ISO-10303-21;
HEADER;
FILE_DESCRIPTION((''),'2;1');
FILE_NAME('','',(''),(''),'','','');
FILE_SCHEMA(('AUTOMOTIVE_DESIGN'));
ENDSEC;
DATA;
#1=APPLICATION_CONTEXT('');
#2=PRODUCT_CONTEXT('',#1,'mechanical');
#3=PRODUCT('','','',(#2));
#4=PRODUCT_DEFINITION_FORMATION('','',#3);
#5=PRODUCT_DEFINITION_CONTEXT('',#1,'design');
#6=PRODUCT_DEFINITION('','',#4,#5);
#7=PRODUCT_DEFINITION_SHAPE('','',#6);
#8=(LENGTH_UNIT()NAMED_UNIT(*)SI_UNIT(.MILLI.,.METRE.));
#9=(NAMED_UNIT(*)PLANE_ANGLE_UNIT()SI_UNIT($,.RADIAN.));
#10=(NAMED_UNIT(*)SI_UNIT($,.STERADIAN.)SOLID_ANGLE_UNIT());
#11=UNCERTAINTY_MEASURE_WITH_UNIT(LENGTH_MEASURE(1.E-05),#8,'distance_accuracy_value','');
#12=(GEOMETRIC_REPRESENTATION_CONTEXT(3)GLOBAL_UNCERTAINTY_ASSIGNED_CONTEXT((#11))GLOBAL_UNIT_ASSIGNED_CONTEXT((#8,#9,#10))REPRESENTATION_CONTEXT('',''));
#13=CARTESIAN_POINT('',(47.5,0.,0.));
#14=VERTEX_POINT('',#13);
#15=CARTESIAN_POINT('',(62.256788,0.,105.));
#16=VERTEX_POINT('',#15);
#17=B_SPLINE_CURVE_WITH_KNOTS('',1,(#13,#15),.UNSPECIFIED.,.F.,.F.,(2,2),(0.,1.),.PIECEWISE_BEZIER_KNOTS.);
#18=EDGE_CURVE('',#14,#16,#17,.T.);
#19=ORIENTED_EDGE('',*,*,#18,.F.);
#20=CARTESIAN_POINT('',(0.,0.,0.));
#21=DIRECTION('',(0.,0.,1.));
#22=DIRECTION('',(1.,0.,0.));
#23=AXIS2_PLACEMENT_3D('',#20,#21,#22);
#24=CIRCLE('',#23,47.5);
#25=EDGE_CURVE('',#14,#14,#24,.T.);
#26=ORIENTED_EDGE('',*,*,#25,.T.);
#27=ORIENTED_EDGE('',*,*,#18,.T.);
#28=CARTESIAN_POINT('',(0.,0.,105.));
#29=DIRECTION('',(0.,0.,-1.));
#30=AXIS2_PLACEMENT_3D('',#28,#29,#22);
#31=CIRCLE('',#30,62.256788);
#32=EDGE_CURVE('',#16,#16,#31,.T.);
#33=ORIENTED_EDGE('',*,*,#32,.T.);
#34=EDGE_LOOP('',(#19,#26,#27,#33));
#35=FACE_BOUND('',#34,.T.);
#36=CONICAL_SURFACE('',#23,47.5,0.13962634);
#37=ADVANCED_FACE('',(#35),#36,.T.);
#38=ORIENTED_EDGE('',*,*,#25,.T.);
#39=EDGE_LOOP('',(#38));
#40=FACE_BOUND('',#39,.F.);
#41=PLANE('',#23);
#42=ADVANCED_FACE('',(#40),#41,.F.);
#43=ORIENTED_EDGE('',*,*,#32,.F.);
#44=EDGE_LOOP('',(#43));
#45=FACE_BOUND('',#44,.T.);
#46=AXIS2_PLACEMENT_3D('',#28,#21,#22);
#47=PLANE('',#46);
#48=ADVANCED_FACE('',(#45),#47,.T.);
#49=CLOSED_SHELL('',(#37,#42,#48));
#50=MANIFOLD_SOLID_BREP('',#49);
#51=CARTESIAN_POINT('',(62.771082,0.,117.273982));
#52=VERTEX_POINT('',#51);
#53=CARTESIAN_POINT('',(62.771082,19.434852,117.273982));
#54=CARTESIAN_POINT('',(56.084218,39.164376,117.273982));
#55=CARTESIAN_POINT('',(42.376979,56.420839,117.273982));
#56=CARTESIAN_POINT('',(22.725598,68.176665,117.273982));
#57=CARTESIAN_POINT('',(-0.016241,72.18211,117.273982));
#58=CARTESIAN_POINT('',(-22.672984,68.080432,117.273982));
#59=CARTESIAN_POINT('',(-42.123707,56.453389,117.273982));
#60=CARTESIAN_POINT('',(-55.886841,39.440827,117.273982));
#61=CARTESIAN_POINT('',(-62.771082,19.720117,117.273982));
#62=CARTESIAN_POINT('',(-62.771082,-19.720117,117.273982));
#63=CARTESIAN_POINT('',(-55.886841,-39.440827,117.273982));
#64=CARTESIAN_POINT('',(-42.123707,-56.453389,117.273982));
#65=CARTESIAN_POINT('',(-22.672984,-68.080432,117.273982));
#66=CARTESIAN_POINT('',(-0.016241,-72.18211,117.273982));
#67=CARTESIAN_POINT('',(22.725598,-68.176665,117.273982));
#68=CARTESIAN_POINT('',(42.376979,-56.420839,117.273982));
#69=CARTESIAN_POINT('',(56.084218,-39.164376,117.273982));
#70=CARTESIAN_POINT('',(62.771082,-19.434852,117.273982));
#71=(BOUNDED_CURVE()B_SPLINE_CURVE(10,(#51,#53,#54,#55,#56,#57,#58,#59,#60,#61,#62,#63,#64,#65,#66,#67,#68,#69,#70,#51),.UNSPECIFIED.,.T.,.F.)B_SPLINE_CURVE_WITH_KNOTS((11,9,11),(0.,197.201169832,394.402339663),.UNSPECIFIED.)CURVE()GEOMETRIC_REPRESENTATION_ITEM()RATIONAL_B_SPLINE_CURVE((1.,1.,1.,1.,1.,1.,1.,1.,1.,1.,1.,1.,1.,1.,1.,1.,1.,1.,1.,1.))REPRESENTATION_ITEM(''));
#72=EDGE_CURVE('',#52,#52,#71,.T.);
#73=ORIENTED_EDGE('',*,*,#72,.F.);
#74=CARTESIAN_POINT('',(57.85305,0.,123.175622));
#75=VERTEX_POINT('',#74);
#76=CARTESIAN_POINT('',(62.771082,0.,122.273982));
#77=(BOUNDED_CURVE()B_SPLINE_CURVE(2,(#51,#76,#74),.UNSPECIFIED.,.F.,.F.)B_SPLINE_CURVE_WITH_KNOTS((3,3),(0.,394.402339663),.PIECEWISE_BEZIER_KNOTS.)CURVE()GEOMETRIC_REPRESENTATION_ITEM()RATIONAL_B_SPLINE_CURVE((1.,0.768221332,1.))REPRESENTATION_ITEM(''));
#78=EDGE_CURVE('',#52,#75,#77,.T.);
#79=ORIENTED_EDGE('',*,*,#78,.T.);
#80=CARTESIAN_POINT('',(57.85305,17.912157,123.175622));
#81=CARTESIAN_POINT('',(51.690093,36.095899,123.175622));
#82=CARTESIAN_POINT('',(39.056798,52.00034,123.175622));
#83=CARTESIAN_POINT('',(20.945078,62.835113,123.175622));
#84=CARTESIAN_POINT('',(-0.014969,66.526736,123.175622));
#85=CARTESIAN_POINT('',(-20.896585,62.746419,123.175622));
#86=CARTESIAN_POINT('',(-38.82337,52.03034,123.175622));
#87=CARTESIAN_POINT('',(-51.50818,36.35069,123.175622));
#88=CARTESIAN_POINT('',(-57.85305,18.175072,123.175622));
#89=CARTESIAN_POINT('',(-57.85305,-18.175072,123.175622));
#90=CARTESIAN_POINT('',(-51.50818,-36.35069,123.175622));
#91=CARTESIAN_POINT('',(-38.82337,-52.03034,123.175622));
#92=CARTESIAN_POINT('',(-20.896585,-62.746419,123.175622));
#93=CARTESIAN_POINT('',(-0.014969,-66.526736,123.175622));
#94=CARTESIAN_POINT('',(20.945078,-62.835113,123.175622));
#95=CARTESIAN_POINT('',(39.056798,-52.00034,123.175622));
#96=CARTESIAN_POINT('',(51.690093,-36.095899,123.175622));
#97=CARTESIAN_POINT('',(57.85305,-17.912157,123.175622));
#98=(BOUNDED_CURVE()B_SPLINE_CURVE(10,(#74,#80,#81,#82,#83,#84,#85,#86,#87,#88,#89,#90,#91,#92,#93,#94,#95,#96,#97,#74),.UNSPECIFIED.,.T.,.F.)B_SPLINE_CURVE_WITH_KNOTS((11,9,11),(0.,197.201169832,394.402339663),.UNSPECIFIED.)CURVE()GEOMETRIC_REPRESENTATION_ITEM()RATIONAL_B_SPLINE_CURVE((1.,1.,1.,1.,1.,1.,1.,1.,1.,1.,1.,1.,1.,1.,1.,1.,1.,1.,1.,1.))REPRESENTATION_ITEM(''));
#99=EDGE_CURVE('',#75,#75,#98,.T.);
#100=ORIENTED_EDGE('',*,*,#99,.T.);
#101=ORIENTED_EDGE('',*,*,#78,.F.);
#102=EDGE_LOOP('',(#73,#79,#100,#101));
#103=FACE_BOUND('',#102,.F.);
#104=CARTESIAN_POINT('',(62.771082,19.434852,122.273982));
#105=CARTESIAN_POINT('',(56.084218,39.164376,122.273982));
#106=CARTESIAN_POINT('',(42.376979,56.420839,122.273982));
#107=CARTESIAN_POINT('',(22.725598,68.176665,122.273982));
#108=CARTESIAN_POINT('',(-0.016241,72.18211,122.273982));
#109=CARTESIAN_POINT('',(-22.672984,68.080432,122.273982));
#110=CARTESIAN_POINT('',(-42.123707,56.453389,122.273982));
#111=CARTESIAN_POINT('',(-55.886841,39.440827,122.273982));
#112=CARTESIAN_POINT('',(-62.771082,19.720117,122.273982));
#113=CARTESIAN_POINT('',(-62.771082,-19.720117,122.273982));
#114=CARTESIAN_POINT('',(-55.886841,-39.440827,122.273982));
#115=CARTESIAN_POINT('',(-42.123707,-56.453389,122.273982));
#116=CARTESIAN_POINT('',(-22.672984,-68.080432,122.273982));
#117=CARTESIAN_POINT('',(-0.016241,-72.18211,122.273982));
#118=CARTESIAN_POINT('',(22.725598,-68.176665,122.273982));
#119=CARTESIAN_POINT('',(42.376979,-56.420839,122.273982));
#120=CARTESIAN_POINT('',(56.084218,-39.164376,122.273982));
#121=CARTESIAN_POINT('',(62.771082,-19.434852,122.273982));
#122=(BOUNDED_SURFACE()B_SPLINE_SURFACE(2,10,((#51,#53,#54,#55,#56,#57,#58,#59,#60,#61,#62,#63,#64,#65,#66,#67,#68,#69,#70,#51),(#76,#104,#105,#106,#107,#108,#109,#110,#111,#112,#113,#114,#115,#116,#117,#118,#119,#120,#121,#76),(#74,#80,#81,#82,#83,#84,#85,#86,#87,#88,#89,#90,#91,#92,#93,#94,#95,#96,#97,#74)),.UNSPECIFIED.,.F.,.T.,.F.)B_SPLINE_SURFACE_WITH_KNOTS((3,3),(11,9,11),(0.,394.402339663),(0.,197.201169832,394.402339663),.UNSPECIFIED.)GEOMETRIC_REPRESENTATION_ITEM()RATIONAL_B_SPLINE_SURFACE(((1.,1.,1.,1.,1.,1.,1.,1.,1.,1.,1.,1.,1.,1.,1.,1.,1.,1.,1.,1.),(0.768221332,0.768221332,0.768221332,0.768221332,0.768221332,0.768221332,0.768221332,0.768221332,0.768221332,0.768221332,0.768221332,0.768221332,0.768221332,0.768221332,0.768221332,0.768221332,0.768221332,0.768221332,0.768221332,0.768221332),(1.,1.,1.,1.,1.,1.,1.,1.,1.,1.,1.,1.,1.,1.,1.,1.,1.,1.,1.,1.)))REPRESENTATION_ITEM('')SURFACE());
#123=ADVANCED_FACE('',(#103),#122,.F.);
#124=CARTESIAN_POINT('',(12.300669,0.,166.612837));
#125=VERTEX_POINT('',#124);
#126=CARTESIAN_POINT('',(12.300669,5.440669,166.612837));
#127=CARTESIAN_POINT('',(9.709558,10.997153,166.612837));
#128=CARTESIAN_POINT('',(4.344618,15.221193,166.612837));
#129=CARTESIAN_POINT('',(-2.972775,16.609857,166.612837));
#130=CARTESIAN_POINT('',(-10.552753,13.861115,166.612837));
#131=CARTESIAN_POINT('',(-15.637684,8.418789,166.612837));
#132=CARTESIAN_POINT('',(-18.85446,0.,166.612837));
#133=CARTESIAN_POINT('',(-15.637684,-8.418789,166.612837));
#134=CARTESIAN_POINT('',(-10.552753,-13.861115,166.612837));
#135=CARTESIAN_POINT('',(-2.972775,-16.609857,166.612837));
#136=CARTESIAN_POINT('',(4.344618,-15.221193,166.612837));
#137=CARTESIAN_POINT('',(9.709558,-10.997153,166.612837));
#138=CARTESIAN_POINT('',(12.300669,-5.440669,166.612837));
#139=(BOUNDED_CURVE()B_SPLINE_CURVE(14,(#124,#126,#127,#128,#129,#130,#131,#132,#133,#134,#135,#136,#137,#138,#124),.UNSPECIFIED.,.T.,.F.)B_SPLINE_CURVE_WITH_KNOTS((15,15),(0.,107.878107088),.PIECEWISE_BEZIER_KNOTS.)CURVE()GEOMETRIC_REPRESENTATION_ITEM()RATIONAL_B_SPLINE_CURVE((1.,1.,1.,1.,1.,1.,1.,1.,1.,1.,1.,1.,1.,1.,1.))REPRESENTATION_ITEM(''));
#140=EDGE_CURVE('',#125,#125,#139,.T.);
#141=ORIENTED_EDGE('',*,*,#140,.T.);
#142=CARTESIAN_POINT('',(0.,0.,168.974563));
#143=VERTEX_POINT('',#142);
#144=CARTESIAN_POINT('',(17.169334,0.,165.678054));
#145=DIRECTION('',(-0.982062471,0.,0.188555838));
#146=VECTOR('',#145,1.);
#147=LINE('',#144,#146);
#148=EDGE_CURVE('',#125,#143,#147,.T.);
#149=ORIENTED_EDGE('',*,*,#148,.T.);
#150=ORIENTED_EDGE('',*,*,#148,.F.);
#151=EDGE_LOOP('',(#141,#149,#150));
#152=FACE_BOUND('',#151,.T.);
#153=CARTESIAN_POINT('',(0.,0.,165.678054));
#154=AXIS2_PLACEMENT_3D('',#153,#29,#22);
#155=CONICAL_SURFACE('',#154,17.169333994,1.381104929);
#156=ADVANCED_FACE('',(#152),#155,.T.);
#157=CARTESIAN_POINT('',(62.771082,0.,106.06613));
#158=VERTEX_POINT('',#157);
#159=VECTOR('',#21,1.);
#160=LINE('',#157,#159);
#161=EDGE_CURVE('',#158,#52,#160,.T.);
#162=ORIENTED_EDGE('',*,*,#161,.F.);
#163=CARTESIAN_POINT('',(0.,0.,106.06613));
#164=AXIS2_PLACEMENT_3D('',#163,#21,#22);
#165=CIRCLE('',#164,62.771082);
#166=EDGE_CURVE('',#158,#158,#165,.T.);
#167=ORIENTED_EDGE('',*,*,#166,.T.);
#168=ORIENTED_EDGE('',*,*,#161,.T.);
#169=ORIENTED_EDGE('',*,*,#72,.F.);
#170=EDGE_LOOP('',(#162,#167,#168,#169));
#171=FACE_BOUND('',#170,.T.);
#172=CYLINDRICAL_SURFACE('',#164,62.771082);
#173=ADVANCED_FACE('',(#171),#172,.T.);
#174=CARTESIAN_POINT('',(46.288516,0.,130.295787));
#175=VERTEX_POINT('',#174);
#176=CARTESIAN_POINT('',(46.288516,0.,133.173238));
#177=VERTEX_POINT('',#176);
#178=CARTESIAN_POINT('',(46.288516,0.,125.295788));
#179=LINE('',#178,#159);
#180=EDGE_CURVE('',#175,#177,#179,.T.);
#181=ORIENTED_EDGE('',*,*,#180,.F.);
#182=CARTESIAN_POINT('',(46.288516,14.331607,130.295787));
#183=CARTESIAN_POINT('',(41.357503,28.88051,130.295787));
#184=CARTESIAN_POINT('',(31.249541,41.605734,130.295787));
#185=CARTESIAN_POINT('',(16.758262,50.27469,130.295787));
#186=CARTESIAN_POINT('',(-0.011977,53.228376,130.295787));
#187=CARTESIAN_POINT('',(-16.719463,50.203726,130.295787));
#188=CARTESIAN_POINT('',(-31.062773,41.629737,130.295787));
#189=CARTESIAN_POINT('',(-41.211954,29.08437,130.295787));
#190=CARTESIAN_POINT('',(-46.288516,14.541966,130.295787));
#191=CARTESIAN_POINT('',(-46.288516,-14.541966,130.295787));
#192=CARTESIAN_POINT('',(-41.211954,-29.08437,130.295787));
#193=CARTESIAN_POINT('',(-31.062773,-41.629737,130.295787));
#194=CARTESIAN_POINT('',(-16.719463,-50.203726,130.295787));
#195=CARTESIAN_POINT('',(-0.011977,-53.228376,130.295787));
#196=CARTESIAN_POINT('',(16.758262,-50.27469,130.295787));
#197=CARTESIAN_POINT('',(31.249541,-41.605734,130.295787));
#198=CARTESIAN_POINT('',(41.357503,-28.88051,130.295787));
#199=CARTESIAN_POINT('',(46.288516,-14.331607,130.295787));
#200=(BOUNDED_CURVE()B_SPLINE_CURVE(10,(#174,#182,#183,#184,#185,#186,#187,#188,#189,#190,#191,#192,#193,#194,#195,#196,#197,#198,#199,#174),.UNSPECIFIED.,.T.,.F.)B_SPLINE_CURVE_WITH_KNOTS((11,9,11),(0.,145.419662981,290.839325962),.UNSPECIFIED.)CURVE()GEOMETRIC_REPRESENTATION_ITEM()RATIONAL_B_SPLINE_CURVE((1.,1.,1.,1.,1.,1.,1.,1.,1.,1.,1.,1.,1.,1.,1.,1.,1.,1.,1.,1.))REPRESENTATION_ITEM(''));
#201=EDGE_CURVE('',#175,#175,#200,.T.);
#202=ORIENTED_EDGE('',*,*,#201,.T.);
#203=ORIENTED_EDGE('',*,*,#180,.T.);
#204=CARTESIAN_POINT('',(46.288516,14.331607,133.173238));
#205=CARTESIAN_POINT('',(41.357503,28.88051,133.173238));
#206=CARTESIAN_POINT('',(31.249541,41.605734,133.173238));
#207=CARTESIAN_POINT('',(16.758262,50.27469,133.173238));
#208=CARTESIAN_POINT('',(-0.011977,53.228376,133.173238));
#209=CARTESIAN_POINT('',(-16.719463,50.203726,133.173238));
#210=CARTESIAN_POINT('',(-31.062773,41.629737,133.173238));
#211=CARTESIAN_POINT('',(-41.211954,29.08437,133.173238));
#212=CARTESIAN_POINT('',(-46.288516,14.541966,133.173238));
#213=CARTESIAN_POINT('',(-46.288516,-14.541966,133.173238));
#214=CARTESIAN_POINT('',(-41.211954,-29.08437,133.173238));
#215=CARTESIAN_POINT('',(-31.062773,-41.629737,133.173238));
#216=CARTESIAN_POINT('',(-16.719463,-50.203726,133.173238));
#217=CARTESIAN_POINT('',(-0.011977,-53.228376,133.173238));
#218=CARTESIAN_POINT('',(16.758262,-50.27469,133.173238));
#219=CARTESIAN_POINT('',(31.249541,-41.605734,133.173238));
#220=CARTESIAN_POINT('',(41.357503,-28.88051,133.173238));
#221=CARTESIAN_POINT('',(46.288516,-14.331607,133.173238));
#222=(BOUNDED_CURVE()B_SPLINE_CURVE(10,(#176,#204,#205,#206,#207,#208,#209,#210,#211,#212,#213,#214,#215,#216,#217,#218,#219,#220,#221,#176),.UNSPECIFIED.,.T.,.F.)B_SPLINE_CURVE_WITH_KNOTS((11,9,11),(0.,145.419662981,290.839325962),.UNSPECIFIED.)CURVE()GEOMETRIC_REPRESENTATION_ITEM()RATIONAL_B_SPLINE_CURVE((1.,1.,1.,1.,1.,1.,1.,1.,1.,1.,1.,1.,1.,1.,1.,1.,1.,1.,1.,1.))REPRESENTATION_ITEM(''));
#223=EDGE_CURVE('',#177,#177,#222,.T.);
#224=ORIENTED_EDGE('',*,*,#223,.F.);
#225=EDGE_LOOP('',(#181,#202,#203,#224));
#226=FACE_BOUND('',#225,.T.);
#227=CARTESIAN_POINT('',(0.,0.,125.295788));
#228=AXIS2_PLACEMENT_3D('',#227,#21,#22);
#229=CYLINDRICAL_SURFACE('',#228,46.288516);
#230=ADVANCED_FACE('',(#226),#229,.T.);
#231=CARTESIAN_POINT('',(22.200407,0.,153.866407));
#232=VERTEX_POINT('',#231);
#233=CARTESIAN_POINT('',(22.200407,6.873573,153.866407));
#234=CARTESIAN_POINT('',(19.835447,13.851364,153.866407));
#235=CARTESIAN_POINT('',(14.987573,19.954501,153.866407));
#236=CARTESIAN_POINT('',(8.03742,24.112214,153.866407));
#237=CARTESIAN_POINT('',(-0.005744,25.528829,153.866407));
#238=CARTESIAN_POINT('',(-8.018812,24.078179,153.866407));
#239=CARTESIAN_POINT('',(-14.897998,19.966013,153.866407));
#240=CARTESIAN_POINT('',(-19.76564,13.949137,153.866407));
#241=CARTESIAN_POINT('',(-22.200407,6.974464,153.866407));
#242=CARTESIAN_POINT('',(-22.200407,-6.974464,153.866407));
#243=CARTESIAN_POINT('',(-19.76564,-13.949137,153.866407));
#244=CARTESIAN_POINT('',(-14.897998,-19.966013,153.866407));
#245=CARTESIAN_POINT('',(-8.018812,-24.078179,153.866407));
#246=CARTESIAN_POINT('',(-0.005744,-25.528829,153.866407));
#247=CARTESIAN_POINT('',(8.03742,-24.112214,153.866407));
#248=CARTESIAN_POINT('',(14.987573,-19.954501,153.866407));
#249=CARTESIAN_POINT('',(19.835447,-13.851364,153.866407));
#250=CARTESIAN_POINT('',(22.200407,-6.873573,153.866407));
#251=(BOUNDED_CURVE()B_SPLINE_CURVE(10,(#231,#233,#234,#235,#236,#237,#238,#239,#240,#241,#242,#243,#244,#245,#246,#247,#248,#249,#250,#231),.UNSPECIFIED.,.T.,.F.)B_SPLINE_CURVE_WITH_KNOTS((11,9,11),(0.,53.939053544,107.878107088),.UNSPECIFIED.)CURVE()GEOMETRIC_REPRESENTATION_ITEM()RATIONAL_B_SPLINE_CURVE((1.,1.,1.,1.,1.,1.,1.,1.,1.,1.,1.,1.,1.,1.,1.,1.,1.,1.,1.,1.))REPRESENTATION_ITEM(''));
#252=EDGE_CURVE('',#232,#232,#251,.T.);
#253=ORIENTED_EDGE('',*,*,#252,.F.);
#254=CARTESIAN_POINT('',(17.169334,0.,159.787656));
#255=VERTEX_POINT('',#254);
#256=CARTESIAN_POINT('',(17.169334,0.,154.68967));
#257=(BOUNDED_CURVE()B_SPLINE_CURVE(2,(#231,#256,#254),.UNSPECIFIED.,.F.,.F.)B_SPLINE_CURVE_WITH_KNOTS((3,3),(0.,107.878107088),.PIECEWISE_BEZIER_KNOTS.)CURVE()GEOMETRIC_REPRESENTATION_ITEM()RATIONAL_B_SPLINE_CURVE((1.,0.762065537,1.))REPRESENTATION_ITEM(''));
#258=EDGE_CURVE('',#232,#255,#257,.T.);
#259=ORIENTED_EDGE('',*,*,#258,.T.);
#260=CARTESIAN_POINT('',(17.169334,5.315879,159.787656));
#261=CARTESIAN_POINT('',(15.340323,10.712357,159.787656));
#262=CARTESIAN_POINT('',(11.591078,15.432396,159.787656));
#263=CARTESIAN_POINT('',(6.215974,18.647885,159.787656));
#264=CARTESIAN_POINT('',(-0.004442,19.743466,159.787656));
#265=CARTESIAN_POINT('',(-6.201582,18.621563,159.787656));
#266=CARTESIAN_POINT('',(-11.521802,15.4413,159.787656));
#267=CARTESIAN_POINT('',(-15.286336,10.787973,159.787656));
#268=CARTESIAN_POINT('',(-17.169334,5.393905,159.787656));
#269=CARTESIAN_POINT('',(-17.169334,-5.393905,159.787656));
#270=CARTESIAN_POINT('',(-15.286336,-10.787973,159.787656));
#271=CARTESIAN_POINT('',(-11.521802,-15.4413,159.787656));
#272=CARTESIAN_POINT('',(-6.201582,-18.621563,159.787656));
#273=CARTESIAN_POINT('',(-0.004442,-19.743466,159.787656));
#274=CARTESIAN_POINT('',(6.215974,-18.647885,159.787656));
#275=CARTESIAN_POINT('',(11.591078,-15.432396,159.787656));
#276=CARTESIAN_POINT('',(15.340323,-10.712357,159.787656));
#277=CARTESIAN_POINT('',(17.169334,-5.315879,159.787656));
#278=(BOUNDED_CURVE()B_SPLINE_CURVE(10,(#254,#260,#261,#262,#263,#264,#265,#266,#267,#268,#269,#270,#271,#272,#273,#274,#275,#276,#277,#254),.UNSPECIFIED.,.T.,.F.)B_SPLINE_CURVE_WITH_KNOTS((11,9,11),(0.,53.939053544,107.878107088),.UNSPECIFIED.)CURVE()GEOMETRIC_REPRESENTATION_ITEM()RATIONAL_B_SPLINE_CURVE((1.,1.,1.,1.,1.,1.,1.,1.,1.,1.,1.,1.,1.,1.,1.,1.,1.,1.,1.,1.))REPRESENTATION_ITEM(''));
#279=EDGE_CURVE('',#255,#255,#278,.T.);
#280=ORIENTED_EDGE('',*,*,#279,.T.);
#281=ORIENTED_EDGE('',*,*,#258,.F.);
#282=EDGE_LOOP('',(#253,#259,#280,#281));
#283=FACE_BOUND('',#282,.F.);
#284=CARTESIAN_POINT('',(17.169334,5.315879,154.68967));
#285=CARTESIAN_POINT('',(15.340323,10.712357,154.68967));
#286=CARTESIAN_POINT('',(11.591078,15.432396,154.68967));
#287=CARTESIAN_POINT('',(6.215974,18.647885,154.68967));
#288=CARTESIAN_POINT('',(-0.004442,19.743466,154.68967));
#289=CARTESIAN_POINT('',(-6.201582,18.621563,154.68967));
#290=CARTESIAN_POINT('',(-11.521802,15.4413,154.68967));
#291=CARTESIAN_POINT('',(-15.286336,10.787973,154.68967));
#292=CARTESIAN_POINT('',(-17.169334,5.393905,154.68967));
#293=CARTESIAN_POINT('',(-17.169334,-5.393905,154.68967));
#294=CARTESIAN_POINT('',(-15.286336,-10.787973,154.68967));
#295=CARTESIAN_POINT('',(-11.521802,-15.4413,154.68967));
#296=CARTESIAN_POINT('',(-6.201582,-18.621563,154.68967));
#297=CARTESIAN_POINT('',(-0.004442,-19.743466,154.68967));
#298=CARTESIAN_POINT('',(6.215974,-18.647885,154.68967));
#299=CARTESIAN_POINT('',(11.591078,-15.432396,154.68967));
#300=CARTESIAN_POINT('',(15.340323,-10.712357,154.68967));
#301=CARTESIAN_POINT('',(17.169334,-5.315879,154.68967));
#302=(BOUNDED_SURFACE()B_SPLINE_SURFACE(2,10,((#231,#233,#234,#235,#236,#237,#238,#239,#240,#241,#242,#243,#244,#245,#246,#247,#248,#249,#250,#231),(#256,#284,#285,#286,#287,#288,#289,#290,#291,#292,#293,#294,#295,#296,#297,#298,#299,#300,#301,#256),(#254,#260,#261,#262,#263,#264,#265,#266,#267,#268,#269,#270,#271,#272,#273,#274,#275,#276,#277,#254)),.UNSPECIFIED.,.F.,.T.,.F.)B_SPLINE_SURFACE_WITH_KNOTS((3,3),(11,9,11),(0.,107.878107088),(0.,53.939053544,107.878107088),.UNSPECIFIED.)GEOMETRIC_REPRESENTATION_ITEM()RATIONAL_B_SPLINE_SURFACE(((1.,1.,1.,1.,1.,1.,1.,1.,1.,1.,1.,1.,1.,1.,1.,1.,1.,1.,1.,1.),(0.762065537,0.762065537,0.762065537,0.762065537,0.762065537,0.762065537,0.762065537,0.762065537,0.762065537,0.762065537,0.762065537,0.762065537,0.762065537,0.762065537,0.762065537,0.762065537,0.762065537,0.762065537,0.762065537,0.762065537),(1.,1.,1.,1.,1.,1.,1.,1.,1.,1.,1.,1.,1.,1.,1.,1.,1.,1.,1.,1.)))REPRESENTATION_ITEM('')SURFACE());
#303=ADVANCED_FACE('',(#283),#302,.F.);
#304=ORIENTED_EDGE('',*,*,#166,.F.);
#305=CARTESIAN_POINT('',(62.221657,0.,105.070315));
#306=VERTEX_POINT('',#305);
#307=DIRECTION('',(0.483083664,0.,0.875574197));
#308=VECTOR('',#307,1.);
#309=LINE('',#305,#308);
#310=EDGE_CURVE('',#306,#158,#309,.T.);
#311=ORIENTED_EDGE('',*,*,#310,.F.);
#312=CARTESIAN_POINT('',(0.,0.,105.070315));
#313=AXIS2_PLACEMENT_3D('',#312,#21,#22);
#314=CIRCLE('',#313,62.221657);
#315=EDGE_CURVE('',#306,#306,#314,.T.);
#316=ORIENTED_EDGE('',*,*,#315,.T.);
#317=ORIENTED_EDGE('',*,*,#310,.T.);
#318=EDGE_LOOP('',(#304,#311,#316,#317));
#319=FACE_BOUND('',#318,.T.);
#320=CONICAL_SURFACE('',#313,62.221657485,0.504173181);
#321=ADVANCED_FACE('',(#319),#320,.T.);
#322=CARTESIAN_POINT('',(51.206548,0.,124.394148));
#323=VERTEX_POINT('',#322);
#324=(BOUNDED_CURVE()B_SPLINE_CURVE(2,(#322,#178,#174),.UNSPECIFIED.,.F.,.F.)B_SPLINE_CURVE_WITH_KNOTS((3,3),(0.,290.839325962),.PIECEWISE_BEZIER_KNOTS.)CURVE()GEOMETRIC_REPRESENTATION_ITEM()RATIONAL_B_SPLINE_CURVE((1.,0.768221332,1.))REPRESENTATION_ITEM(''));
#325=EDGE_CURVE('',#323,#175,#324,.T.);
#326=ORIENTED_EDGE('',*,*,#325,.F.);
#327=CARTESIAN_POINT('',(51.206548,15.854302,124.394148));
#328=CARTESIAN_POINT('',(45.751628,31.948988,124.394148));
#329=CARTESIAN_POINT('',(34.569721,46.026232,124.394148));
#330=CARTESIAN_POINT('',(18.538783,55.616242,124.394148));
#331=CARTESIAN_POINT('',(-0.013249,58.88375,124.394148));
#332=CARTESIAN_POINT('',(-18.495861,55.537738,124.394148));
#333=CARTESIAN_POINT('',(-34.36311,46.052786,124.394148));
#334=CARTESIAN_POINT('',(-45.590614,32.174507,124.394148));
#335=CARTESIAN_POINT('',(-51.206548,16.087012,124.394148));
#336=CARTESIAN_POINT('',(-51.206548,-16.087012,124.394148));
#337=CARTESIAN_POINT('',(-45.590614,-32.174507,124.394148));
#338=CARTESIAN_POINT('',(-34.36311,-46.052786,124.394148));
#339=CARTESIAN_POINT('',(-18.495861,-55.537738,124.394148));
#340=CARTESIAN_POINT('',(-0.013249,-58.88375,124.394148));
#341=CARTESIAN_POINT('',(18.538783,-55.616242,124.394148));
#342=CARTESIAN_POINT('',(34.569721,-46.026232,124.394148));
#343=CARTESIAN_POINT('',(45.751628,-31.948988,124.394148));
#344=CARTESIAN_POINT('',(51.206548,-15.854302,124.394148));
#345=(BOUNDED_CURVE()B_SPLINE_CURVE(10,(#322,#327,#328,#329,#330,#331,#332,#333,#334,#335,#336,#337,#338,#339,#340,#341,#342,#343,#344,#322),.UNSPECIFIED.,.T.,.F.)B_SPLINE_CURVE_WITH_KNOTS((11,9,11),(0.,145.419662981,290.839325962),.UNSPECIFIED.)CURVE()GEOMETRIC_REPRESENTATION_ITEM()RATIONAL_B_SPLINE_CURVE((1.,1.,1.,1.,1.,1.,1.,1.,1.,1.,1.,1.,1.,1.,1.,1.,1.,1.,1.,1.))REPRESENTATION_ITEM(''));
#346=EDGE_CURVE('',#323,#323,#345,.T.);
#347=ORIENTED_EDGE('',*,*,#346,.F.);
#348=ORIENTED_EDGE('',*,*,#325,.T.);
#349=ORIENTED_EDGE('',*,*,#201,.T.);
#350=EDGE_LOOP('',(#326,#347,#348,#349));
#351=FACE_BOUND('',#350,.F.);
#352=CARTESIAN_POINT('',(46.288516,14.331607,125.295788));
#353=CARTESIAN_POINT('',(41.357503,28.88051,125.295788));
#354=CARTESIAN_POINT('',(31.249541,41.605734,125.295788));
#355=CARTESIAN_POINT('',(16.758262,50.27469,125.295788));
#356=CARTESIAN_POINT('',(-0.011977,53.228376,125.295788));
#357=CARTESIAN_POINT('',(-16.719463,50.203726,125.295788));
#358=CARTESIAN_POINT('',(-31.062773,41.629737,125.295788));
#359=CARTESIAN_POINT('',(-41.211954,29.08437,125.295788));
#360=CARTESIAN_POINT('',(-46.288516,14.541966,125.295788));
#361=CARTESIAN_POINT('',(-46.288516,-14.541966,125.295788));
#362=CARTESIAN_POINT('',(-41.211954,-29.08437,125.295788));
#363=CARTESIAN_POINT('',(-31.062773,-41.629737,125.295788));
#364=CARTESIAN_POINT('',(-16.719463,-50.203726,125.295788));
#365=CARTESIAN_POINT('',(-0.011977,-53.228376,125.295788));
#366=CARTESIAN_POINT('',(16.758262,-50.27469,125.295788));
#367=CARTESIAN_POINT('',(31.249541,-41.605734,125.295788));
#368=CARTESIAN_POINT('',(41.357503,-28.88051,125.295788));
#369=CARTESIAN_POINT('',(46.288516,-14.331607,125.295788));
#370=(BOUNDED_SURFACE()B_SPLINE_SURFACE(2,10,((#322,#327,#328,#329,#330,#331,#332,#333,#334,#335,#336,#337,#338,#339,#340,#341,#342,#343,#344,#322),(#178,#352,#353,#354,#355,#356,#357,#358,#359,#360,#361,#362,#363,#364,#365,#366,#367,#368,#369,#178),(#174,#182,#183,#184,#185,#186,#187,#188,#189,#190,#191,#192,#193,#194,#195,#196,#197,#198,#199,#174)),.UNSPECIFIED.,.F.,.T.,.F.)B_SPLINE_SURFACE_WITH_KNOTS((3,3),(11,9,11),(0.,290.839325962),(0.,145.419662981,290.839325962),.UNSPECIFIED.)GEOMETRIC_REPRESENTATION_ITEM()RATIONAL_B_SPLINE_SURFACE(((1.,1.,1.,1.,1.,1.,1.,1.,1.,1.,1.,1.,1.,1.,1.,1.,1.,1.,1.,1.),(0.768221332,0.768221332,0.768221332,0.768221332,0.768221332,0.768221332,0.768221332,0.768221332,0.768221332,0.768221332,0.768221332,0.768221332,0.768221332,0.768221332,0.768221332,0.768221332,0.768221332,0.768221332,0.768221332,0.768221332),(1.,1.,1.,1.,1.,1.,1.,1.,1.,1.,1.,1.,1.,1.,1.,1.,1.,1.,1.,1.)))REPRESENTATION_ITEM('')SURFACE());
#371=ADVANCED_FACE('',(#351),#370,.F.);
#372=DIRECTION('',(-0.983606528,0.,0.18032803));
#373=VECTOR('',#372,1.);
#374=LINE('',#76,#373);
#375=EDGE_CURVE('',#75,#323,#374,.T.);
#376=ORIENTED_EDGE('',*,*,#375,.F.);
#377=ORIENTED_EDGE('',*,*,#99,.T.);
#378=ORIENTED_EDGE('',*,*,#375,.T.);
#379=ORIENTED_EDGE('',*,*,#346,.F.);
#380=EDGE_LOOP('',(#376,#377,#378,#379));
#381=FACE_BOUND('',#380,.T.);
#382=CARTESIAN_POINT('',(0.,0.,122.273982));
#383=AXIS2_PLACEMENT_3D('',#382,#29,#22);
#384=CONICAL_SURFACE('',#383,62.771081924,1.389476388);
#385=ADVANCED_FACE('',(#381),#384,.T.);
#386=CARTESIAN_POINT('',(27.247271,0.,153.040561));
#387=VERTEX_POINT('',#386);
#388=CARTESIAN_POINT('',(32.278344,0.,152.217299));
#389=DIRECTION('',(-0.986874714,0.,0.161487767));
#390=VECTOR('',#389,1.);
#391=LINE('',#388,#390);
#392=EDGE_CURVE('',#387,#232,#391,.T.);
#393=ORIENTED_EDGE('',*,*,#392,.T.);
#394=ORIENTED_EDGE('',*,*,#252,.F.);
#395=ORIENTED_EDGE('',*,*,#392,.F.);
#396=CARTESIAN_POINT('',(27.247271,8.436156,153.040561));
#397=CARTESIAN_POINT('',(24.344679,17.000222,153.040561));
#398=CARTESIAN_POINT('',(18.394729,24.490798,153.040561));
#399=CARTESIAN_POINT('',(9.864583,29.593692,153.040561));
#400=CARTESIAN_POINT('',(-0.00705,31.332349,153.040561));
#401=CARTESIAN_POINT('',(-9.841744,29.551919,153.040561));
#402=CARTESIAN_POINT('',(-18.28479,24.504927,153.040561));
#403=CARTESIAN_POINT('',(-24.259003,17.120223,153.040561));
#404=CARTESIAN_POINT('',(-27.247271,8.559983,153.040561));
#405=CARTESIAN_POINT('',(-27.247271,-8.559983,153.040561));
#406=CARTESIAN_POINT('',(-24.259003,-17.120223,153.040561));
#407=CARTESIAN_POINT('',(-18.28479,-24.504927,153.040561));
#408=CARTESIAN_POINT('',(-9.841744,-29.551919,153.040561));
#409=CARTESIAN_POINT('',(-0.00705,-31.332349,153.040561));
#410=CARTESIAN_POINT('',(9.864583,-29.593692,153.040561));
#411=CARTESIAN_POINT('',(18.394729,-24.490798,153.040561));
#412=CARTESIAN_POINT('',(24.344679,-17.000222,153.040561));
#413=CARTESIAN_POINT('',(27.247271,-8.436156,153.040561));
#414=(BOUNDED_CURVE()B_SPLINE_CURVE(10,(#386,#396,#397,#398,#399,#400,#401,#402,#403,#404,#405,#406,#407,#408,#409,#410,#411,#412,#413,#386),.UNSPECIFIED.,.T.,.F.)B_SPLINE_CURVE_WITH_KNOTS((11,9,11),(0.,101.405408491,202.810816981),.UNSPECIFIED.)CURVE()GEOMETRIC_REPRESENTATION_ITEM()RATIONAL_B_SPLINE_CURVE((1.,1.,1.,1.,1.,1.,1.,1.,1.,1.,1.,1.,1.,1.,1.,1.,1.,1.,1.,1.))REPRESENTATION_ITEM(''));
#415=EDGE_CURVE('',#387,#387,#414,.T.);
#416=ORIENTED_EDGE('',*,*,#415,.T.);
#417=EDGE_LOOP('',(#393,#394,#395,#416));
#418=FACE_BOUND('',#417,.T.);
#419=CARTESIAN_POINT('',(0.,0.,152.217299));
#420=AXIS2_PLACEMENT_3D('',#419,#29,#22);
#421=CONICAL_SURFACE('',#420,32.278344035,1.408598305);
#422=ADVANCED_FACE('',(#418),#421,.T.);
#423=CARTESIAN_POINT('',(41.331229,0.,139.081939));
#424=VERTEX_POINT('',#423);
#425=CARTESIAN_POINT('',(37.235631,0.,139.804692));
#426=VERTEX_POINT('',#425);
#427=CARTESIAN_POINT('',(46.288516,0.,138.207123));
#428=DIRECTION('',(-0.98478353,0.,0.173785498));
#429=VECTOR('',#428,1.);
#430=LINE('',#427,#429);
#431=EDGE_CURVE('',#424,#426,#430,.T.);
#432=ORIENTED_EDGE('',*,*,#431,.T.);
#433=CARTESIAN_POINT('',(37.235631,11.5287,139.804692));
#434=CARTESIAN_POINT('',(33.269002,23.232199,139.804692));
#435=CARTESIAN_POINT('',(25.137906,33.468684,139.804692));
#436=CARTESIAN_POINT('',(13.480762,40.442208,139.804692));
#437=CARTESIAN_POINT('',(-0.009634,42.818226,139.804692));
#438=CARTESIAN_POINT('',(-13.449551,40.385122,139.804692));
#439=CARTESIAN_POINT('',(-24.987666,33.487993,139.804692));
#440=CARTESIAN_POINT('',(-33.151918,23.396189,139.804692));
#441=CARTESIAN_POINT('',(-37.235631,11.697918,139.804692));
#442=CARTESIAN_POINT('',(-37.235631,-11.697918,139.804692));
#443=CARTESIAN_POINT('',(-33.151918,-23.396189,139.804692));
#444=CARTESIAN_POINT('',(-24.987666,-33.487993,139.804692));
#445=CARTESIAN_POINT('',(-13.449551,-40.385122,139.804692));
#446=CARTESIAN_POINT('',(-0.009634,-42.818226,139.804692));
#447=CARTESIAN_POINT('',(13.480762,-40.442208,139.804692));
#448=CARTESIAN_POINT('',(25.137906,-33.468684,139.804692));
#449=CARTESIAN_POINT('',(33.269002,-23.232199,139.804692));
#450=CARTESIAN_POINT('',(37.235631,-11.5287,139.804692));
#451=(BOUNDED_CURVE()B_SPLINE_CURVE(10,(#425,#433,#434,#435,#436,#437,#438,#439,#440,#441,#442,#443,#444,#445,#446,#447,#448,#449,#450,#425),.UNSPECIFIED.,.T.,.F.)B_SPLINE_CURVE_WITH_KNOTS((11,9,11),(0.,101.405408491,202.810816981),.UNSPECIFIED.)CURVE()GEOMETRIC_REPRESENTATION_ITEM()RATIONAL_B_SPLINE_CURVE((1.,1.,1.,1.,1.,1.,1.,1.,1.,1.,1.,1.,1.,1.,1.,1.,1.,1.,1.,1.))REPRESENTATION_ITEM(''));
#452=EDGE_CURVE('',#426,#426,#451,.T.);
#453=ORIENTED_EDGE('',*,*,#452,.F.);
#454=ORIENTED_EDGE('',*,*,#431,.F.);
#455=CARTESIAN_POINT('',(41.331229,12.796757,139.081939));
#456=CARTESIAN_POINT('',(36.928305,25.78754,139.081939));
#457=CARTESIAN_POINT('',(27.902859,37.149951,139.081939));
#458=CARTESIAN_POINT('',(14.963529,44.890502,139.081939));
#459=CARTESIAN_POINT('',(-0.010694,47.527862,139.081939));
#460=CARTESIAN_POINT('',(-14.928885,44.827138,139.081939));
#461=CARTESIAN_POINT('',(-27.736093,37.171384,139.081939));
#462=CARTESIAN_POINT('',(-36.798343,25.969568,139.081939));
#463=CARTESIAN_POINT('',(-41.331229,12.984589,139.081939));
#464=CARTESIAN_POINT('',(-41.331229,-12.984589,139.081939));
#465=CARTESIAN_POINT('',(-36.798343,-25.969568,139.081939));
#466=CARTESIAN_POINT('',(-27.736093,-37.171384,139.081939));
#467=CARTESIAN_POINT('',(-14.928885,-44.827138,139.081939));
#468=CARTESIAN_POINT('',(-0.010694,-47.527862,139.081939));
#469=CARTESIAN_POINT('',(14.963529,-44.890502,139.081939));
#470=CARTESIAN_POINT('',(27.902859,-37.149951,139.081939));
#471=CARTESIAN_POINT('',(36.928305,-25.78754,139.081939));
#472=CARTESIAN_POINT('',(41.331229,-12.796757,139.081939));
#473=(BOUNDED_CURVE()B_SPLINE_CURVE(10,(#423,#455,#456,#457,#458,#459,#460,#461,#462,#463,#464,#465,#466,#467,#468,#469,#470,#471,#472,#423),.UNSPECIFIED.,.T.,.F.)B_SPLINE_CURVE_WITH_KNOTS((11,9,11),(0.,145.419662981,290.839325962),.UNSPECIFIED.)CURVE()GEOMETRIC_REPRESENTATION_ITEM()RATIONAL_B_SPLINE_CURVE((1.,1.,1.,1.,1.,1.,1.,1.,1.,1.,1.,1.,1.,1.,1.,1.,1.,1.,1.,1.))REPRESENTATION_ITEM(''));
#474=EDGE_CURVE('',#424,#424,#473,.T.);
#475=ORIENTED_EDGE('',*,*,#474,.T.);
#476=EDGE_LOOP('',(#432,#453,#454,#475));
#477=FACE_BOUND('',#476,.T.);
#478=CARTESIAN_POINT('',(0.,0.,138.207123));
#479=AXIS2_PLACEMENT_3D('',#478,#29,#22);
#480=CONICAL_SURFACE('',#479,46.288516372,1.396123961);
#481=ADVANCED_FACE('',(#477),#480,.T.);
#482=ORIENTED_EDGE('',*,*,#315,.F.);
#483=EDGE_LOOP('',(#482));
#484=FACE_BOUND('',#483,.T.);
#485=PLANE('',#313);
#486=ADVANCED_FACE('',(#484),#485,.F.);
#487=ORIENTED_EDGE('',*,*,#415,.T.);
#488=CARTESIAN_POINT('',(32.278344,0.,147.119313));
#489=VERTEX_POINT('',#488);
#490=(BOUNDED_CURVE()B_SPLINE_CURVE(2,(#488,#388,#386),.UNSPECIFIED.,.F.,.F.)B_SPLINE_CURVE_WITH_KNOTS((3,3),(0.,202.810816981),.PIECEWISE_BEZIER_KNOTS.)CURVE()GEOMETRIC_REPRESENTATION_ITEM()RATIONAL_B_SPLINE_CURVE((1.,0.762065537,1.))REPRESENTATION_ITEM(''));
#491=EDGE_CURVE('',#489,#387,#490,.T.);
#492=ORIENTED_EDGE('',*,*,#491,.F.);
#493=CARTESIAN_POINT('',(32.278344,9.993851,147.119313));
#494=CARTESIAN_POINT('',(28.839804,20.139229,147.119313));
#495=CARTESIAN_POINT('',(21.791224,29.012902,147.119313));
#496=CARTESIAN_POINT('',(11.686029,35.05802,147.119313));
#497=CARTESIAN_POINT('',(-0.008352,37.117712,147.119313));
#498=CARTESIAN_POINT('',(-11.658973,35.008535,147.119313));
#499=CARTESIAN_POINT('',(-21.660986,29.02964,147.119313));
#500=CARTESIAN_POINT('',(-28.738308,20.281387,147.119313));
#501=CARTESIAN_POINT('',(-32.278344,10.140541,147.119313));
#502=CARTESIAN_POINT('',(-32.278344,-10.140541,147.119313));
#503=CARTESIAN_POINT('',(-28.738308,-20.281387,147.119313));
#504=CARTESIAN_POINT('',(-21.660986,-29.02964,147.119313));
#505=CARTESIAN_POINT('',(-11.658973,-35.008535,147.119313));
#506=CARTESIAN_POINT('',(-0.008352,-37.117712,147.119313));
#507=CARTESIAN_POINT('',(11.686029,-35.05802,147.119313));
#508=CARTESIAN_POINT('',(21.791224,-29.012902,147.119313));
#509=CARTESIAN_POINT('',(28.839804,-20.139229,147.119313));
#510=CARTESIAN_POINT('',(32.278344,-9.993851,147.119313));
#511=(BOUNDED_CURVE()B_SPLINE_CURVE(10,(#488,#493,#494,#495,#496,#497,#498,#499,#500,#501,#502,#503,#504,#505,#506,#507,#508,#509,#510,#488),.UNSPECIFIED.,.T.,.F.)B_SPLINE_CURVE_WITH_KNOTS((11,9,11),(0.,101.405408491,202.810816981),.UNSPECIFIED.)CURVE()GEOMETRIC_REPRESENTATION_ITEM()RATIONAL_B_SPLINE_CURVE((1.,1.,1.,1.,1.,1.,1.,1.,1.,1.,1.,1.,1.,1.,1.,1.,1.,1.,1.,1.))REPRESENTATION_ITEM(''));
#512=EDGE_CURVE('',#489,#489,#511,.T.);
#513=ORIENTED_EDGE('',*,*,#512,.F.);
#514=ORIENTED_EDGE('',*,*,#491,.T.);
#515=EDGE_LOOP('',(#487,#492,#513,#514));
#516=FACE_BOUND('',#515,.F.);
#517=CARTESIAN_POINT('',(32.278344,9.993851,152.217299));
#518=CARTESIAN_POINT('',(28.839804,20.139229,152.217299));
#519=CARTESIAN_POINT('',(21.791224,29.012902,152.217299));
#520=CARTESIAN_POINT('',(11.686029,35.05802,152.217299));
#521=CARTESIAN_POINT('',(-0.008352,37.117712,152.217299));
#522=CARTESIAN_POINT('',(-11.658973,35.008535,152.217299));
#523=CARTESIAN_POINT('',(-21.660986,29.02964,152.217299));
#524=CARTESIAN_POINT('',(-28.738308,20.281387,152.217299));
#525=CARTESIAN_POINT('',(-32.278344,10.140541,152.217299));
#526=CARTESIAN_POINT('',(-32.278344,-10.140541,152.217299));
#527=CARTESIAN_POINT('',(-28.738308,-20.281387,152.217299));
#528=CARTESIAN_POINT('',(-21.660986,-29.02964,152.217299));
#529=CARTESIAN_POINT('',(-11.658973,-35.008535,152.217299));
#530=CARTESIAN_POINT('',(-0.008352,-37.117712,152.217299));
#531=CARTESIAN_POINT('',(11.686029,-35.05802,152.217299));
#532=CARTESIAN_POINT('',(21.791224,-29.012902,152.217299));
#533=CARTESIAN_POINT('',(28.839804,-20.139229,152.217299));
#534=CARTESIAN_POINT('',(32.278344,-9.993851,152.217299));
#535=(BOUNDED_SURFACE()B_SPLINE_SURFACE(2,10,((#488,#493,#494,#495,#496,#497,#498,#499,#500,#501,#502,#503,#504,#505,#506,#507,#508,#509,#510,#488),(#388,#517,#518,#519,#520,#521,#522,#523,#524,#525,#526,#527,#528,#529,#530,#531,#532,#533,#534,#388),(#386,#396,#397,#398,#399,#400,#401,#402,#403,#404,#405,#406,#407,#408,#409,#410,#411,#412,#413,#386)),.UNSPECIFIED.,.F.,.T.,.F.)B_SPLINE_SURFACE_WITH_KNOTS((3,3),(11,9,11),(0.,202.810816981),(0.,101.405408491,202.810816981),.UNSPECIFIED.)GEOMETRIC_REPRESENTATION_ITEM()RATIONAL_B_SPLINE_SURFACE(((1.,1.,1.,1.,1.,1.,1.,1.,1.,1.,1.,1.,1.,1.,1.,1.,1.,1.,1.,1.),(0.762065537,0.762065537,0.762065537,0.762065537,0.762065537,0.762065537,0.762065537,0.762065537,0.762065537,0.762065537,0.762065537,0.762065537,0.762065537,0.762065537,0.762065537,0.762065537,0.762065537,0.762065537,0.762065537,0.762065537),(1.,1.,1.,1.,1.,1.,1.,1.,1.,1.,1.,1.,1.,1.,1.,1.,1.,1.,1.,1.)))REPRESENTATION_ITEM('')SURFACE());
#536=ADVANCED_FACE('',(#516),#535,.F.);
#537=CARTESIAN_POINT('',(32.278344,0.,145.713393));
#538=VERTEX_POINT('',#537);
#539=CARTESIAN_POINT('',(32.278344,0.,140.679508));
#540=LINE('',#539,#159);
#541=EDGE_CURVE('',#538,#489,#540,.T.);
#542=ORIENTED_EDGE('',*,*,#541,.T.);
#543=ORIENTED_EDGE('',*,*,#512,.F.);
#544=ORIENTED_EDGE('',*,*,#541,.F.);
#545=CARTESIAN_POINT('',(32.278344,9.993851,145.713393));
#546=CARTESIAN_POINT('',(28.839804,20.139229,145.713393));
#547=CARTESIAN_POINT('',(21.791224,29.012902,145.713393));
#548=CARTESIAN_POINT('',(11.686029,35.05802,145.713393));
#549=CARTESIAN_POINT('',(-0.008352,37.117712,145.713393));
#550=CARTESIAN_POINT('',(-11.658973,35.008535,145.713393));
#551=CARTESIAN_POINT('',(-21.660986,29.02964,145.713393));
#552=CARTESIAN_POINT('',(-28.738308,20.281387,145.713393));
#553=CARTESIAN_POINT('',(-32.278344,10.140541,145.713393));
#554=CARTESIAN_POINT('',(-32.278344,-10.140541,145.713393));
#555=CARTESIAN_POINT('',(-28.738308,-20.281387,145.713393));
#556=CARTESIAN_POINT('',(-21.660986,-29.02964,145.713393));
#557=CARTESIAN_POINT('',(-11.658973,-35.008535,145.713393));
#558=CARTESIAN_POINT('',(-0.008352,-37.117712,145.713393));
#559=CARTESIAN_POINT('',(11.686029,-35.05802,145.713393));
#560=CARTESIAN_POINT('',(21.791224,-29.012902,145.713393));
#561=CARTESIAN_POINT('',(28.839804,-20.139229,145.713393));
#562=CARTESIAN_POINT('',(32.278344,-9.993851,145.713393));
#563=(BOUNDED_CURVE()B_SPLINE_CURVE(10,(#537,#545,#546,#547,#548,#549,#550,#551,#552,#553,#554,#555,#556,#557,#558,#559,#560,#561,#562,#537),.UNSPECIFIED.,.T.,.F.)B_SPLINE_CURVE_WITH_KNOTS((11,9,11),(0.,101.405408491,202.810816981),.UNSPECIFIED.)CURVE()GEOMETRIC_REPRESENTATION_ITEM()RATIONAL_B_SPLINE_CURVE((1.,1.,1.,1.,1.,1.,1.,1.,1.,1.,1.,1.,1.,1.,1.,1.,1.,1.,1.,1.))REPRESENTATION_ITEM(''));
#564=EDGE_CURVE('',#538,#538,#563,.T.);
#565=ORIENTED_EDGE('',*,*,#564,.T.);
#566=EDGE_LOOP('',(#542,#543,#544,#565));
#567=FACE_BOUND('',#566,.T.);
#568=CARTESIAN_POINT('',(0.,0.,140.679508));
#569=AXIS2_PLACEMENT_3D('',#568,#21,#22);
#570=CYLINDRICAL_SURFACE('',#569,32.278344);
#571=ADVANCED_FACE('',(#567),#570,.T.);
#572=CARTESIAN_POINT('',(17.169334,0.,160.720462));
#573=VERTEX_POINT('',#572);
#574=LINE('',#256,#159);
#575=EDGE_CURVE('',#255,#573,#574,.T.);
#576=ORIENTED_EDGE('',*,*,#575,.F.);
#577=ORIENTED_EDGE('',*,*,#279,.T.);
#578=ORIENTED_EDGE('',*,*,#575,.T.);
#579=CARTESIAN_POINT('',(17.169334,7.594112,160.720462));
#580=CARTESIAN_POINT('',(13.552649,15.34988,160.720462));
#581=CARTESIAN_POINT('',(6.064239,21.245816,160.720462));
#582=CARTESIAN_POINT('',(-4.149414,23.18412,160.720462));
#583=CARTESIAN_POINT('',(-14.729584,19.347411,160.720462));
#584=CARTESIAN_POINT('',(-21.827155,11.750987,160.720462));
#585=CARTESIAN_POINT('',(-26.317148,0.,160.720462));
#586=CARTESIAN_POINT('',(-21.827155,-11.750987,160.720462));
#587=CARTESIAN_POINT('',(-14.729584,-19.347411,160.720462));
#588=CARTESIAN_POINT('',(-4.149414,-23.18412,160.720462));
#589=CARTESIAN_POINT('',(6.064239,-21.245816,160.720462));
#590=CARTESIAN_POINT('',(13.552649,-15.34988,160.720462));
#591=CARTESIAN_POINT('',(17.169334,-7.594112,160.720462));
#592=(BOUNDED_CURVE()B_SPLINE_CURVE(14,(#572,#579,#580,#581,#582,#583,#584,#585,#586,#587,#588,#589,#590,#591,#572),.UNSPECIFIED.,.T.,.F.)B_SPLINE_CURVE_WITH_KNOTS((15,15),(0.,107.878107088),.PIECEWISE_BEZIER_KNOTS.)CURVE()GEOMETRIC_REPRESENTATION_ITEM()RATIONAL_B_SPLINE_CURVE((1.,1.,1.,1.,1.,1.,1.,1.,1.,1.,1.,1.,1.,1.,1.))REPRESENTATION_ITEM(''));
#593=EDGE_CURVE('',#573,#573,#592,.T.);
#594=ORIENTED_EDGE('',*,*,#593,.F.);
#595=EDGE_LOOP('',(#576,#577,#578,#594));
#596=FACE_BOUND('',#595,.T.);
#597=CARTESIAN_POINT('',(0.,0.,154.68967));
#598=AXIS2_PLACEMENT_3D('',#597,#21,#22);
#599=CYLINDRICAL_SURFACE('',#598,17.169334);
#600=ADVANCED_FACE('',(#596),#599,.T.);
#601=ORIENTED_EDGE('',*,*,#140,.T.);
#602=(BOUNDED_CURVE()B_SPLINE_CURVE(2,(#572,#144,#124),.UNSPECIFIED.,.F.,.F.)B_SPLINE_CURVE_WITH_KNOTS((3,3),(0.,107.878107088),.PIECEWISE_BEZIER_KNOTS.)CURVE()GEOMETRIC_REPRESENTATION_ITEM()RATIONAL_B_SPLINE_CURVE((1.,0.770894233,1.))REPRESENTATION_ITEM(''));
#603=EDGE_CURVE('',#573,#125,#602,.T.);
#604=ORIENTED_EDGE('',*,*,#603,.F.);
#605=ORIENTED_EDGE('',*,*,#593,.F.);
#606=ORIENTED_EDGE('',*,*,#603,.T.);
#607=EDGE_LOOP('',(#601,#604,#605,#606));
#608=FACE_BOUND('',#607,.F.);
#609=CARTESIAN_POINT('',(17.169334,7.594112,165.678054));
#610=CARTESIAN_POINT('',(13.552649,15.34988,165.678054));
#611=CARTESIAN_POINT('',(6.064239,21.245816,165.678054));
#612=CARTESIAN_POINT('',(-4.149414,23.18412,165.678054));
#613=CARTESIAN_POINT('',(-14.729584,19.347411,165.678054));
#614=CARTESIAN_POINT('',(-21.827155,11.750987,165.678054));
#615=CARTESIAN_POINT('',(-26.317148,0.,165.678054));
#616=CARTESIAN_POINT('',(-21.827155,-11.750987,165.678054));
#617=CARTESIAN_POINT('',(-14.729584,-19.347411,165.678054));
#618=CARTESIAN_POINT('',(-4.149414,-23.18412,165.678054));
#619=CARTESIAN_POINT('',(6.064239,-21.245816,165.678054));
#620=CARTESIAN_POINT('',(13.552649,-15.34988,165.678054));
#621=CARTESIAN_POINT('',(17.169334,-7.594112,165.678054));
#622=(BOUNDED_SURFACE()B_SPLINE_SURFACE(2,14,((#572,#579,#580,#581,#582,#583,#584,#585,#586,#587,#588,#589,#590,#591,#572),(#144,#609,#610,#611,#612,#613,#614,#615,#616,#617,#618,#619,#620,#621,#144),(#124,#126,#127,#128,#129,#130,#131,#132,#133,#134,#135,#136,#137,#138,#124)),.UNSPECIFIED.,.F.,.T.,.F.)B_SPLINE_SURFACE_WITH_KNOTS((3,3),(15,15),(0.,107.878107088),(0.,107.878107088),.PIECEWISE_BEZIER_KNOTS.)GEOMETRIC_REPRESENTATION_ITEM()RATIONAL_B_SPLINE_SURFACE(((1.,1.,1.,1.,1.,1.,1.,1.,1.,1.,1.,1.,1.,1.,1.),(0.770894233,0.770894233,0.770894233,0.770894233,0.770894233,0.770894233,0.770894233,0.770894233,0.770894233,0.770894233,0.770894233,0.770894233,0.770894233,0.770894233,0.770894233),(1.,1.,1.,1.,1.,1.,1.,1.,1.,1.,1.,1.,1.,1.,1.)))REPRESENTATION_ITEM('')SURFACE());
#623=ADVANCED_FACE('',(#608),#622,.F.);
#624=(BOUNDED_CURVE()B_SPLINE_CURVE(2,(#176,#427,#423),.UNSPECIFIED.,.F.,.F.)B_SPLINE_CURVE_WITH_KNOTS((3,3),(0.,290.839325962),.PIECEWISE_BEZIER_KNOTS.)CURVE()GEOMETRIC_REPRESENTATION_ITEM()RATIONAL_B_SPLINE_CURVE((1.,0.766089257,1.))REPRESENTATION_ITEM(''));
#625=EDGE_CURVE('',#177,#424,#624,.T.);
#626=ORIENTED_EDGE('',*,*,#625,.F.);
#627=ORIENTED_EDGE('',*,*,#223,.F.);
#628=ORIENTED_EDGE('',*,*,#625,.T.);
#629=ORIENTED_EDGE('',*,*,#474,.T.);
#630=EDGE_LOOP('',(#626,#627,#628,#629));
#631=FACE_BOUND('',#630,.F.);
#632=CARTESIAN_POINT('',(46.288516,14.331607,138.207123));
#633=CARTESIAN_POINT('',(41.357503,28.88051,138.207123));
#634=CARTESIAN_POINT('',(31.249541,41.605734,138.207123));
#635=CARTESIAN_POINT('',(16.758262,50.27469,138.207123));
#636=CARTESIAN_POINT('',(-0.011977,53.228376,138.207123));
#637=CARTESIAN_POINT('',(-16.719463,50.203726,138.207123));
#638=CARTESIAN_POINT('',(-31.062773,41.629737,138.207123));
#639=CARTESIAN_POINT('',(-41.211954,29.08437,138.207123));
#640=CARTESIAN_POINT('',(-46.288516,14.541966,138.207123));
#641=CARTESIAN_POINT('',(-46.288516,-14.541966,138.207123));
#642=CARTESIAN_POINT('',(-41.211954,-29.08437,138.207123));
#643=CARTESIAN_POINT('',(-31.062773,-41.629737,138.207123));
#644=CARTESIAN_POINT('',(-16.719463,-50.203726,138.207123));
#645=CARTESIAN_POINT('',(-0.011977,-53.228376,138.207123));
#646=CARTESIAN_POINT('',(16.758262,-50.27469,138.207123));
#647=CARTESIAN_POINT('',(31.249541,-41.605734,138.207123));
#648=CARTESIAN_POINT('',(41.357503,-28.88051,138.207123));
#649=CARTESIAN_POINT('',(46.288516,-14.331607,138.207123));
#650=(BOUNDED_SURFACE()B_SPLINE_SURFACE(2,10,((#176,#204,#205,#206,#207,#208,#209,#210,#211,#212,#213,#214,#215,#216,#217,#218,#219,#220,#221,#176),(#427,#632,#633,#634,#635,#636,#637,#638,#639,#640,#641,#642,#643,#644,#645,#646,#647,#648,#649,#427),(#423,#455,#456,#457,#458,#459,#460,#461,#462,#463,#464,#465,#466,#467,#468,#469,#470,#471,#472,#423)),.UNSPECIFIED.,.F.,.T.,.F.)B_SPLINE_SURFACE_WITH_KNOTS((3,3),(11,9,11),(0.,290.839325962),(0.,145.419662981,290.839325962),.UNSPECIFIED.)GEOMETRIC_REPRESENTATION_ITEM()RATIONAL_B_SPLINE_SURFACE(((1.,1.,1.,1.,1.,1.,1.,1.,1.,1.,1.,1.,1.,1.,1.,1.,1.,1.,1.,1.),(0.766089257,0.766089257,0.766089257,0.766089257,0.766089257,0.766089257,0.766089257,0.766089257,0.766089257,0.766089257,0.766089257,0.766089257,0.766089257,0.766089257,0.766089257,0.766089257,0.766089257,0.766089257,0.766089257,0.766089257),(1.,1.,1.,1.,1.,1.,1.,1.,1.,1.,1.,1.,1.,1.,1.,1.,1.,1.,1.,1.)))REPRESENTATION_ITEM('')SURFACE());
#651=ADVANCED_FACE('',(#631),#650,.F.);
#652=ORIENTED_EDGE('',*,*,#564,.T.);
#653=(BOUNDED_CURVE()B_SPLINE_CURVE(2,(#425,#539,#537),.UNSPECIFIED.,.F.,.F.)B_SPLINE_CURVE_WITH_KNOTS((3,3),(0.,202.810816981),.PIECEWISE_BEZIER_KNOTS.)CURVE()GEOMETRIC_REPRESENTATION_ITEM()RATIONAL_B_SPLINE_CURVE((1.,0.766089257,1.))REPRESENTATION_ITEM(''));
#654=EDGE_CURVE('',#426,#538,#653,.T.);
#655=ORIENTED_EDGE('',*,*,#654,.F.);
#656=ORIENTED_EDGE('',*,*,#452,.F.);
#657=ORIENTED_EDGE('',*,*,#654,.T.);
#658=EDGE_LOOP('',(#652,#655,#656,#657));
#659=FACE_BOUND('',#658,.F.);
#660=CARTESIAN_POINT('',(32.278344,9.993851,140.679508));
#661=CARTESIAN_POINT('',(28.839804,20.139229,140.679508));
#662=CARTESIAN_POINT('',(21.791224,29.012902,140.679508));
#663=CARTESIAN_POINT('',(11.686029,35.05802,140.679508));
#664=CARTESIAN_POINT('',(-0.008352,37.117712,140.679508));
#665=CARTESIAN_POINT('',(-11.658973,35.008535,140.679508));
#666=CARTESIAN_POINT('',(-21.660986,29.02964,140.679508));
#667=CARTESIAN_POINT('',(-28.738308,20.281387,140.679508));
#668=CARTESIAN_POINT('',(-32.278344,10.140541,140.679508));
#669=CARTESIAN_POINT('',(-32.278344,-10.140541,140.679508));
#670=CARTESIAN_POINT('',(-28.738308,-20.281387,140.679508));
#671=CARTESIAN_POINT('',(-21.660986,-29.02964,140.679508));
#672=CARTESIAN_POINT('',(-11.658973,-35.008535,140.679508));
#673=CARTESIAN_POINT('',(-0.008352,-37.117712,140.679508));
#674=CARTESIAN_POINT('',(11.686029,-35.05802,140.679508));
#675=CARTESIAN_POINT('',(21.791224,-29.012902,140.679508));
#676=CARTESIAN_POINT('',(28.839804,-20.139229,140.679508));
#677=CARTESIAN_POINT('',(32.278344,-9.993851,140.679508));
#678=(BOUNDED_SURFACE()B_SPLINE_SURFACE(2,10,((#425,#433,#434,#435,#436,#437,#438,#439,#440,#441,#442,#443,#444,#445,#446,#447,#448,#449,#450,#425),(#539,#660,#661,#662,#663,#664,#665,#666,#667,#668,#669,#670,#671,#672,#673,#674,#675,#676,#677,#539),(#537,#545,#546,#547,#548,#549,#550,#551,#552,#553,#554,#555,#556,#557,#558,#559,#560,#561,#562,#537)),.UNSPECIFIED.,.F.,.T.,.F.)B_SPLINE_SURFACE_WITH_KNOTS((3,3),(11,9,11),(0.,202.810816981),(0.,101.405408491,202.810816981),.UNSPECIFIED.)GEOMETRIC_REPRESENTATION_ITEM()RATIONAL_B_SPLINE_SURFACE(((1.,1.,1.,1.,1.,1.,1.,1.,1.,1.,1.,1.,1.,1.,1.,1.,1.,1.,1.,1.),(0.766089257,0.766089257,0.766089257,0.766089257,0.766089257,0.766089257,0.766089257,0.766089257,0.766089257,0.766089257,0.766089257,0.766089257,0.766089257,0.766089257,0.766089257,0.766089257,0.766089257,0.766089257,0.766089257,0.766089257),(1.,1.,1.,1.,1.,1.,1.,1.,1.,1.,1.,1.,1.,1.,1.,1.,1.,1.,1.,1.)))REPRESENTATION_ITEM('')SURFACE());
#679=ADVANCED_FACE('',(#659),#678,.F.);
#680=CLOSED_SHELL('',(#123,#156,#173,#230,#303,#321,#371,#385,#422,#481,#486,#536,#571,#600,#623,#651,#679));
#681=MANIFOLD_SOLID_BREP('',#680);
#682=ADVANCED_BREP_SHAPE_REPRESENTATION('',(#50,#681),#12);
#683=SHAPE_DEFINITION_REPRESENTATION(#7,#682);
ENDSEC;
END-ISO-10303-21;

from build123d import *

# Parameters (mm, degrees)
F0_R     = 47.5
F1_DEPTH = 105
F1_TAPER = -8
F4_R     = 6


with BuildPart() as f1:
    # F0 (on Top) → F1 (new body)
    with BuildSketch(Plane.XY):
        Circle(F0_R)
    extrude(amount=F1_DEPTH, taper=F1_TAPER)


with BuildPart() as f3:
    # F2 (on Front) → F3 (revolve)
    with BuildSketch(Plane.XZ):
        Polygon((0, 168.9745634794), (0, 105.0703153014), (62.2216574848, 105.0703153014), (62.7710819244, 106.0661301017), (62.7710819244, 122.2739815712), (46.2885163724, 125.2957880497), (46.2885163724, 138.2071226835), (32.2783440351, 140.6795084476), (32.2783440351, 152.2172987461), (17.1693339944, 154.6896696091), (17.1693339944, 165.6780540943), align=None)
    revolve(axis=Axis((0, 0, 121.7245608568), (0, 0, 1)))

    # F4
    f4_edges = [f3.edges().sort_by_distance(p)[0] for p in [
        (-17.169334, 0, 154.68967),
        (-32.278344, 0, 152.217299),
        (-32.278344, 0, 140.679508),
        (-46.288516, 0, 138.207123),
        (-46.288516, 0, 125.295788),
        (-62.771082, 0, 122.273982),
        (-17.169334, 0, 165.678054),
    ]]
    fillet(f4_edges, radius=F4_R)


solid = Compound([f1.part, f3.part])
